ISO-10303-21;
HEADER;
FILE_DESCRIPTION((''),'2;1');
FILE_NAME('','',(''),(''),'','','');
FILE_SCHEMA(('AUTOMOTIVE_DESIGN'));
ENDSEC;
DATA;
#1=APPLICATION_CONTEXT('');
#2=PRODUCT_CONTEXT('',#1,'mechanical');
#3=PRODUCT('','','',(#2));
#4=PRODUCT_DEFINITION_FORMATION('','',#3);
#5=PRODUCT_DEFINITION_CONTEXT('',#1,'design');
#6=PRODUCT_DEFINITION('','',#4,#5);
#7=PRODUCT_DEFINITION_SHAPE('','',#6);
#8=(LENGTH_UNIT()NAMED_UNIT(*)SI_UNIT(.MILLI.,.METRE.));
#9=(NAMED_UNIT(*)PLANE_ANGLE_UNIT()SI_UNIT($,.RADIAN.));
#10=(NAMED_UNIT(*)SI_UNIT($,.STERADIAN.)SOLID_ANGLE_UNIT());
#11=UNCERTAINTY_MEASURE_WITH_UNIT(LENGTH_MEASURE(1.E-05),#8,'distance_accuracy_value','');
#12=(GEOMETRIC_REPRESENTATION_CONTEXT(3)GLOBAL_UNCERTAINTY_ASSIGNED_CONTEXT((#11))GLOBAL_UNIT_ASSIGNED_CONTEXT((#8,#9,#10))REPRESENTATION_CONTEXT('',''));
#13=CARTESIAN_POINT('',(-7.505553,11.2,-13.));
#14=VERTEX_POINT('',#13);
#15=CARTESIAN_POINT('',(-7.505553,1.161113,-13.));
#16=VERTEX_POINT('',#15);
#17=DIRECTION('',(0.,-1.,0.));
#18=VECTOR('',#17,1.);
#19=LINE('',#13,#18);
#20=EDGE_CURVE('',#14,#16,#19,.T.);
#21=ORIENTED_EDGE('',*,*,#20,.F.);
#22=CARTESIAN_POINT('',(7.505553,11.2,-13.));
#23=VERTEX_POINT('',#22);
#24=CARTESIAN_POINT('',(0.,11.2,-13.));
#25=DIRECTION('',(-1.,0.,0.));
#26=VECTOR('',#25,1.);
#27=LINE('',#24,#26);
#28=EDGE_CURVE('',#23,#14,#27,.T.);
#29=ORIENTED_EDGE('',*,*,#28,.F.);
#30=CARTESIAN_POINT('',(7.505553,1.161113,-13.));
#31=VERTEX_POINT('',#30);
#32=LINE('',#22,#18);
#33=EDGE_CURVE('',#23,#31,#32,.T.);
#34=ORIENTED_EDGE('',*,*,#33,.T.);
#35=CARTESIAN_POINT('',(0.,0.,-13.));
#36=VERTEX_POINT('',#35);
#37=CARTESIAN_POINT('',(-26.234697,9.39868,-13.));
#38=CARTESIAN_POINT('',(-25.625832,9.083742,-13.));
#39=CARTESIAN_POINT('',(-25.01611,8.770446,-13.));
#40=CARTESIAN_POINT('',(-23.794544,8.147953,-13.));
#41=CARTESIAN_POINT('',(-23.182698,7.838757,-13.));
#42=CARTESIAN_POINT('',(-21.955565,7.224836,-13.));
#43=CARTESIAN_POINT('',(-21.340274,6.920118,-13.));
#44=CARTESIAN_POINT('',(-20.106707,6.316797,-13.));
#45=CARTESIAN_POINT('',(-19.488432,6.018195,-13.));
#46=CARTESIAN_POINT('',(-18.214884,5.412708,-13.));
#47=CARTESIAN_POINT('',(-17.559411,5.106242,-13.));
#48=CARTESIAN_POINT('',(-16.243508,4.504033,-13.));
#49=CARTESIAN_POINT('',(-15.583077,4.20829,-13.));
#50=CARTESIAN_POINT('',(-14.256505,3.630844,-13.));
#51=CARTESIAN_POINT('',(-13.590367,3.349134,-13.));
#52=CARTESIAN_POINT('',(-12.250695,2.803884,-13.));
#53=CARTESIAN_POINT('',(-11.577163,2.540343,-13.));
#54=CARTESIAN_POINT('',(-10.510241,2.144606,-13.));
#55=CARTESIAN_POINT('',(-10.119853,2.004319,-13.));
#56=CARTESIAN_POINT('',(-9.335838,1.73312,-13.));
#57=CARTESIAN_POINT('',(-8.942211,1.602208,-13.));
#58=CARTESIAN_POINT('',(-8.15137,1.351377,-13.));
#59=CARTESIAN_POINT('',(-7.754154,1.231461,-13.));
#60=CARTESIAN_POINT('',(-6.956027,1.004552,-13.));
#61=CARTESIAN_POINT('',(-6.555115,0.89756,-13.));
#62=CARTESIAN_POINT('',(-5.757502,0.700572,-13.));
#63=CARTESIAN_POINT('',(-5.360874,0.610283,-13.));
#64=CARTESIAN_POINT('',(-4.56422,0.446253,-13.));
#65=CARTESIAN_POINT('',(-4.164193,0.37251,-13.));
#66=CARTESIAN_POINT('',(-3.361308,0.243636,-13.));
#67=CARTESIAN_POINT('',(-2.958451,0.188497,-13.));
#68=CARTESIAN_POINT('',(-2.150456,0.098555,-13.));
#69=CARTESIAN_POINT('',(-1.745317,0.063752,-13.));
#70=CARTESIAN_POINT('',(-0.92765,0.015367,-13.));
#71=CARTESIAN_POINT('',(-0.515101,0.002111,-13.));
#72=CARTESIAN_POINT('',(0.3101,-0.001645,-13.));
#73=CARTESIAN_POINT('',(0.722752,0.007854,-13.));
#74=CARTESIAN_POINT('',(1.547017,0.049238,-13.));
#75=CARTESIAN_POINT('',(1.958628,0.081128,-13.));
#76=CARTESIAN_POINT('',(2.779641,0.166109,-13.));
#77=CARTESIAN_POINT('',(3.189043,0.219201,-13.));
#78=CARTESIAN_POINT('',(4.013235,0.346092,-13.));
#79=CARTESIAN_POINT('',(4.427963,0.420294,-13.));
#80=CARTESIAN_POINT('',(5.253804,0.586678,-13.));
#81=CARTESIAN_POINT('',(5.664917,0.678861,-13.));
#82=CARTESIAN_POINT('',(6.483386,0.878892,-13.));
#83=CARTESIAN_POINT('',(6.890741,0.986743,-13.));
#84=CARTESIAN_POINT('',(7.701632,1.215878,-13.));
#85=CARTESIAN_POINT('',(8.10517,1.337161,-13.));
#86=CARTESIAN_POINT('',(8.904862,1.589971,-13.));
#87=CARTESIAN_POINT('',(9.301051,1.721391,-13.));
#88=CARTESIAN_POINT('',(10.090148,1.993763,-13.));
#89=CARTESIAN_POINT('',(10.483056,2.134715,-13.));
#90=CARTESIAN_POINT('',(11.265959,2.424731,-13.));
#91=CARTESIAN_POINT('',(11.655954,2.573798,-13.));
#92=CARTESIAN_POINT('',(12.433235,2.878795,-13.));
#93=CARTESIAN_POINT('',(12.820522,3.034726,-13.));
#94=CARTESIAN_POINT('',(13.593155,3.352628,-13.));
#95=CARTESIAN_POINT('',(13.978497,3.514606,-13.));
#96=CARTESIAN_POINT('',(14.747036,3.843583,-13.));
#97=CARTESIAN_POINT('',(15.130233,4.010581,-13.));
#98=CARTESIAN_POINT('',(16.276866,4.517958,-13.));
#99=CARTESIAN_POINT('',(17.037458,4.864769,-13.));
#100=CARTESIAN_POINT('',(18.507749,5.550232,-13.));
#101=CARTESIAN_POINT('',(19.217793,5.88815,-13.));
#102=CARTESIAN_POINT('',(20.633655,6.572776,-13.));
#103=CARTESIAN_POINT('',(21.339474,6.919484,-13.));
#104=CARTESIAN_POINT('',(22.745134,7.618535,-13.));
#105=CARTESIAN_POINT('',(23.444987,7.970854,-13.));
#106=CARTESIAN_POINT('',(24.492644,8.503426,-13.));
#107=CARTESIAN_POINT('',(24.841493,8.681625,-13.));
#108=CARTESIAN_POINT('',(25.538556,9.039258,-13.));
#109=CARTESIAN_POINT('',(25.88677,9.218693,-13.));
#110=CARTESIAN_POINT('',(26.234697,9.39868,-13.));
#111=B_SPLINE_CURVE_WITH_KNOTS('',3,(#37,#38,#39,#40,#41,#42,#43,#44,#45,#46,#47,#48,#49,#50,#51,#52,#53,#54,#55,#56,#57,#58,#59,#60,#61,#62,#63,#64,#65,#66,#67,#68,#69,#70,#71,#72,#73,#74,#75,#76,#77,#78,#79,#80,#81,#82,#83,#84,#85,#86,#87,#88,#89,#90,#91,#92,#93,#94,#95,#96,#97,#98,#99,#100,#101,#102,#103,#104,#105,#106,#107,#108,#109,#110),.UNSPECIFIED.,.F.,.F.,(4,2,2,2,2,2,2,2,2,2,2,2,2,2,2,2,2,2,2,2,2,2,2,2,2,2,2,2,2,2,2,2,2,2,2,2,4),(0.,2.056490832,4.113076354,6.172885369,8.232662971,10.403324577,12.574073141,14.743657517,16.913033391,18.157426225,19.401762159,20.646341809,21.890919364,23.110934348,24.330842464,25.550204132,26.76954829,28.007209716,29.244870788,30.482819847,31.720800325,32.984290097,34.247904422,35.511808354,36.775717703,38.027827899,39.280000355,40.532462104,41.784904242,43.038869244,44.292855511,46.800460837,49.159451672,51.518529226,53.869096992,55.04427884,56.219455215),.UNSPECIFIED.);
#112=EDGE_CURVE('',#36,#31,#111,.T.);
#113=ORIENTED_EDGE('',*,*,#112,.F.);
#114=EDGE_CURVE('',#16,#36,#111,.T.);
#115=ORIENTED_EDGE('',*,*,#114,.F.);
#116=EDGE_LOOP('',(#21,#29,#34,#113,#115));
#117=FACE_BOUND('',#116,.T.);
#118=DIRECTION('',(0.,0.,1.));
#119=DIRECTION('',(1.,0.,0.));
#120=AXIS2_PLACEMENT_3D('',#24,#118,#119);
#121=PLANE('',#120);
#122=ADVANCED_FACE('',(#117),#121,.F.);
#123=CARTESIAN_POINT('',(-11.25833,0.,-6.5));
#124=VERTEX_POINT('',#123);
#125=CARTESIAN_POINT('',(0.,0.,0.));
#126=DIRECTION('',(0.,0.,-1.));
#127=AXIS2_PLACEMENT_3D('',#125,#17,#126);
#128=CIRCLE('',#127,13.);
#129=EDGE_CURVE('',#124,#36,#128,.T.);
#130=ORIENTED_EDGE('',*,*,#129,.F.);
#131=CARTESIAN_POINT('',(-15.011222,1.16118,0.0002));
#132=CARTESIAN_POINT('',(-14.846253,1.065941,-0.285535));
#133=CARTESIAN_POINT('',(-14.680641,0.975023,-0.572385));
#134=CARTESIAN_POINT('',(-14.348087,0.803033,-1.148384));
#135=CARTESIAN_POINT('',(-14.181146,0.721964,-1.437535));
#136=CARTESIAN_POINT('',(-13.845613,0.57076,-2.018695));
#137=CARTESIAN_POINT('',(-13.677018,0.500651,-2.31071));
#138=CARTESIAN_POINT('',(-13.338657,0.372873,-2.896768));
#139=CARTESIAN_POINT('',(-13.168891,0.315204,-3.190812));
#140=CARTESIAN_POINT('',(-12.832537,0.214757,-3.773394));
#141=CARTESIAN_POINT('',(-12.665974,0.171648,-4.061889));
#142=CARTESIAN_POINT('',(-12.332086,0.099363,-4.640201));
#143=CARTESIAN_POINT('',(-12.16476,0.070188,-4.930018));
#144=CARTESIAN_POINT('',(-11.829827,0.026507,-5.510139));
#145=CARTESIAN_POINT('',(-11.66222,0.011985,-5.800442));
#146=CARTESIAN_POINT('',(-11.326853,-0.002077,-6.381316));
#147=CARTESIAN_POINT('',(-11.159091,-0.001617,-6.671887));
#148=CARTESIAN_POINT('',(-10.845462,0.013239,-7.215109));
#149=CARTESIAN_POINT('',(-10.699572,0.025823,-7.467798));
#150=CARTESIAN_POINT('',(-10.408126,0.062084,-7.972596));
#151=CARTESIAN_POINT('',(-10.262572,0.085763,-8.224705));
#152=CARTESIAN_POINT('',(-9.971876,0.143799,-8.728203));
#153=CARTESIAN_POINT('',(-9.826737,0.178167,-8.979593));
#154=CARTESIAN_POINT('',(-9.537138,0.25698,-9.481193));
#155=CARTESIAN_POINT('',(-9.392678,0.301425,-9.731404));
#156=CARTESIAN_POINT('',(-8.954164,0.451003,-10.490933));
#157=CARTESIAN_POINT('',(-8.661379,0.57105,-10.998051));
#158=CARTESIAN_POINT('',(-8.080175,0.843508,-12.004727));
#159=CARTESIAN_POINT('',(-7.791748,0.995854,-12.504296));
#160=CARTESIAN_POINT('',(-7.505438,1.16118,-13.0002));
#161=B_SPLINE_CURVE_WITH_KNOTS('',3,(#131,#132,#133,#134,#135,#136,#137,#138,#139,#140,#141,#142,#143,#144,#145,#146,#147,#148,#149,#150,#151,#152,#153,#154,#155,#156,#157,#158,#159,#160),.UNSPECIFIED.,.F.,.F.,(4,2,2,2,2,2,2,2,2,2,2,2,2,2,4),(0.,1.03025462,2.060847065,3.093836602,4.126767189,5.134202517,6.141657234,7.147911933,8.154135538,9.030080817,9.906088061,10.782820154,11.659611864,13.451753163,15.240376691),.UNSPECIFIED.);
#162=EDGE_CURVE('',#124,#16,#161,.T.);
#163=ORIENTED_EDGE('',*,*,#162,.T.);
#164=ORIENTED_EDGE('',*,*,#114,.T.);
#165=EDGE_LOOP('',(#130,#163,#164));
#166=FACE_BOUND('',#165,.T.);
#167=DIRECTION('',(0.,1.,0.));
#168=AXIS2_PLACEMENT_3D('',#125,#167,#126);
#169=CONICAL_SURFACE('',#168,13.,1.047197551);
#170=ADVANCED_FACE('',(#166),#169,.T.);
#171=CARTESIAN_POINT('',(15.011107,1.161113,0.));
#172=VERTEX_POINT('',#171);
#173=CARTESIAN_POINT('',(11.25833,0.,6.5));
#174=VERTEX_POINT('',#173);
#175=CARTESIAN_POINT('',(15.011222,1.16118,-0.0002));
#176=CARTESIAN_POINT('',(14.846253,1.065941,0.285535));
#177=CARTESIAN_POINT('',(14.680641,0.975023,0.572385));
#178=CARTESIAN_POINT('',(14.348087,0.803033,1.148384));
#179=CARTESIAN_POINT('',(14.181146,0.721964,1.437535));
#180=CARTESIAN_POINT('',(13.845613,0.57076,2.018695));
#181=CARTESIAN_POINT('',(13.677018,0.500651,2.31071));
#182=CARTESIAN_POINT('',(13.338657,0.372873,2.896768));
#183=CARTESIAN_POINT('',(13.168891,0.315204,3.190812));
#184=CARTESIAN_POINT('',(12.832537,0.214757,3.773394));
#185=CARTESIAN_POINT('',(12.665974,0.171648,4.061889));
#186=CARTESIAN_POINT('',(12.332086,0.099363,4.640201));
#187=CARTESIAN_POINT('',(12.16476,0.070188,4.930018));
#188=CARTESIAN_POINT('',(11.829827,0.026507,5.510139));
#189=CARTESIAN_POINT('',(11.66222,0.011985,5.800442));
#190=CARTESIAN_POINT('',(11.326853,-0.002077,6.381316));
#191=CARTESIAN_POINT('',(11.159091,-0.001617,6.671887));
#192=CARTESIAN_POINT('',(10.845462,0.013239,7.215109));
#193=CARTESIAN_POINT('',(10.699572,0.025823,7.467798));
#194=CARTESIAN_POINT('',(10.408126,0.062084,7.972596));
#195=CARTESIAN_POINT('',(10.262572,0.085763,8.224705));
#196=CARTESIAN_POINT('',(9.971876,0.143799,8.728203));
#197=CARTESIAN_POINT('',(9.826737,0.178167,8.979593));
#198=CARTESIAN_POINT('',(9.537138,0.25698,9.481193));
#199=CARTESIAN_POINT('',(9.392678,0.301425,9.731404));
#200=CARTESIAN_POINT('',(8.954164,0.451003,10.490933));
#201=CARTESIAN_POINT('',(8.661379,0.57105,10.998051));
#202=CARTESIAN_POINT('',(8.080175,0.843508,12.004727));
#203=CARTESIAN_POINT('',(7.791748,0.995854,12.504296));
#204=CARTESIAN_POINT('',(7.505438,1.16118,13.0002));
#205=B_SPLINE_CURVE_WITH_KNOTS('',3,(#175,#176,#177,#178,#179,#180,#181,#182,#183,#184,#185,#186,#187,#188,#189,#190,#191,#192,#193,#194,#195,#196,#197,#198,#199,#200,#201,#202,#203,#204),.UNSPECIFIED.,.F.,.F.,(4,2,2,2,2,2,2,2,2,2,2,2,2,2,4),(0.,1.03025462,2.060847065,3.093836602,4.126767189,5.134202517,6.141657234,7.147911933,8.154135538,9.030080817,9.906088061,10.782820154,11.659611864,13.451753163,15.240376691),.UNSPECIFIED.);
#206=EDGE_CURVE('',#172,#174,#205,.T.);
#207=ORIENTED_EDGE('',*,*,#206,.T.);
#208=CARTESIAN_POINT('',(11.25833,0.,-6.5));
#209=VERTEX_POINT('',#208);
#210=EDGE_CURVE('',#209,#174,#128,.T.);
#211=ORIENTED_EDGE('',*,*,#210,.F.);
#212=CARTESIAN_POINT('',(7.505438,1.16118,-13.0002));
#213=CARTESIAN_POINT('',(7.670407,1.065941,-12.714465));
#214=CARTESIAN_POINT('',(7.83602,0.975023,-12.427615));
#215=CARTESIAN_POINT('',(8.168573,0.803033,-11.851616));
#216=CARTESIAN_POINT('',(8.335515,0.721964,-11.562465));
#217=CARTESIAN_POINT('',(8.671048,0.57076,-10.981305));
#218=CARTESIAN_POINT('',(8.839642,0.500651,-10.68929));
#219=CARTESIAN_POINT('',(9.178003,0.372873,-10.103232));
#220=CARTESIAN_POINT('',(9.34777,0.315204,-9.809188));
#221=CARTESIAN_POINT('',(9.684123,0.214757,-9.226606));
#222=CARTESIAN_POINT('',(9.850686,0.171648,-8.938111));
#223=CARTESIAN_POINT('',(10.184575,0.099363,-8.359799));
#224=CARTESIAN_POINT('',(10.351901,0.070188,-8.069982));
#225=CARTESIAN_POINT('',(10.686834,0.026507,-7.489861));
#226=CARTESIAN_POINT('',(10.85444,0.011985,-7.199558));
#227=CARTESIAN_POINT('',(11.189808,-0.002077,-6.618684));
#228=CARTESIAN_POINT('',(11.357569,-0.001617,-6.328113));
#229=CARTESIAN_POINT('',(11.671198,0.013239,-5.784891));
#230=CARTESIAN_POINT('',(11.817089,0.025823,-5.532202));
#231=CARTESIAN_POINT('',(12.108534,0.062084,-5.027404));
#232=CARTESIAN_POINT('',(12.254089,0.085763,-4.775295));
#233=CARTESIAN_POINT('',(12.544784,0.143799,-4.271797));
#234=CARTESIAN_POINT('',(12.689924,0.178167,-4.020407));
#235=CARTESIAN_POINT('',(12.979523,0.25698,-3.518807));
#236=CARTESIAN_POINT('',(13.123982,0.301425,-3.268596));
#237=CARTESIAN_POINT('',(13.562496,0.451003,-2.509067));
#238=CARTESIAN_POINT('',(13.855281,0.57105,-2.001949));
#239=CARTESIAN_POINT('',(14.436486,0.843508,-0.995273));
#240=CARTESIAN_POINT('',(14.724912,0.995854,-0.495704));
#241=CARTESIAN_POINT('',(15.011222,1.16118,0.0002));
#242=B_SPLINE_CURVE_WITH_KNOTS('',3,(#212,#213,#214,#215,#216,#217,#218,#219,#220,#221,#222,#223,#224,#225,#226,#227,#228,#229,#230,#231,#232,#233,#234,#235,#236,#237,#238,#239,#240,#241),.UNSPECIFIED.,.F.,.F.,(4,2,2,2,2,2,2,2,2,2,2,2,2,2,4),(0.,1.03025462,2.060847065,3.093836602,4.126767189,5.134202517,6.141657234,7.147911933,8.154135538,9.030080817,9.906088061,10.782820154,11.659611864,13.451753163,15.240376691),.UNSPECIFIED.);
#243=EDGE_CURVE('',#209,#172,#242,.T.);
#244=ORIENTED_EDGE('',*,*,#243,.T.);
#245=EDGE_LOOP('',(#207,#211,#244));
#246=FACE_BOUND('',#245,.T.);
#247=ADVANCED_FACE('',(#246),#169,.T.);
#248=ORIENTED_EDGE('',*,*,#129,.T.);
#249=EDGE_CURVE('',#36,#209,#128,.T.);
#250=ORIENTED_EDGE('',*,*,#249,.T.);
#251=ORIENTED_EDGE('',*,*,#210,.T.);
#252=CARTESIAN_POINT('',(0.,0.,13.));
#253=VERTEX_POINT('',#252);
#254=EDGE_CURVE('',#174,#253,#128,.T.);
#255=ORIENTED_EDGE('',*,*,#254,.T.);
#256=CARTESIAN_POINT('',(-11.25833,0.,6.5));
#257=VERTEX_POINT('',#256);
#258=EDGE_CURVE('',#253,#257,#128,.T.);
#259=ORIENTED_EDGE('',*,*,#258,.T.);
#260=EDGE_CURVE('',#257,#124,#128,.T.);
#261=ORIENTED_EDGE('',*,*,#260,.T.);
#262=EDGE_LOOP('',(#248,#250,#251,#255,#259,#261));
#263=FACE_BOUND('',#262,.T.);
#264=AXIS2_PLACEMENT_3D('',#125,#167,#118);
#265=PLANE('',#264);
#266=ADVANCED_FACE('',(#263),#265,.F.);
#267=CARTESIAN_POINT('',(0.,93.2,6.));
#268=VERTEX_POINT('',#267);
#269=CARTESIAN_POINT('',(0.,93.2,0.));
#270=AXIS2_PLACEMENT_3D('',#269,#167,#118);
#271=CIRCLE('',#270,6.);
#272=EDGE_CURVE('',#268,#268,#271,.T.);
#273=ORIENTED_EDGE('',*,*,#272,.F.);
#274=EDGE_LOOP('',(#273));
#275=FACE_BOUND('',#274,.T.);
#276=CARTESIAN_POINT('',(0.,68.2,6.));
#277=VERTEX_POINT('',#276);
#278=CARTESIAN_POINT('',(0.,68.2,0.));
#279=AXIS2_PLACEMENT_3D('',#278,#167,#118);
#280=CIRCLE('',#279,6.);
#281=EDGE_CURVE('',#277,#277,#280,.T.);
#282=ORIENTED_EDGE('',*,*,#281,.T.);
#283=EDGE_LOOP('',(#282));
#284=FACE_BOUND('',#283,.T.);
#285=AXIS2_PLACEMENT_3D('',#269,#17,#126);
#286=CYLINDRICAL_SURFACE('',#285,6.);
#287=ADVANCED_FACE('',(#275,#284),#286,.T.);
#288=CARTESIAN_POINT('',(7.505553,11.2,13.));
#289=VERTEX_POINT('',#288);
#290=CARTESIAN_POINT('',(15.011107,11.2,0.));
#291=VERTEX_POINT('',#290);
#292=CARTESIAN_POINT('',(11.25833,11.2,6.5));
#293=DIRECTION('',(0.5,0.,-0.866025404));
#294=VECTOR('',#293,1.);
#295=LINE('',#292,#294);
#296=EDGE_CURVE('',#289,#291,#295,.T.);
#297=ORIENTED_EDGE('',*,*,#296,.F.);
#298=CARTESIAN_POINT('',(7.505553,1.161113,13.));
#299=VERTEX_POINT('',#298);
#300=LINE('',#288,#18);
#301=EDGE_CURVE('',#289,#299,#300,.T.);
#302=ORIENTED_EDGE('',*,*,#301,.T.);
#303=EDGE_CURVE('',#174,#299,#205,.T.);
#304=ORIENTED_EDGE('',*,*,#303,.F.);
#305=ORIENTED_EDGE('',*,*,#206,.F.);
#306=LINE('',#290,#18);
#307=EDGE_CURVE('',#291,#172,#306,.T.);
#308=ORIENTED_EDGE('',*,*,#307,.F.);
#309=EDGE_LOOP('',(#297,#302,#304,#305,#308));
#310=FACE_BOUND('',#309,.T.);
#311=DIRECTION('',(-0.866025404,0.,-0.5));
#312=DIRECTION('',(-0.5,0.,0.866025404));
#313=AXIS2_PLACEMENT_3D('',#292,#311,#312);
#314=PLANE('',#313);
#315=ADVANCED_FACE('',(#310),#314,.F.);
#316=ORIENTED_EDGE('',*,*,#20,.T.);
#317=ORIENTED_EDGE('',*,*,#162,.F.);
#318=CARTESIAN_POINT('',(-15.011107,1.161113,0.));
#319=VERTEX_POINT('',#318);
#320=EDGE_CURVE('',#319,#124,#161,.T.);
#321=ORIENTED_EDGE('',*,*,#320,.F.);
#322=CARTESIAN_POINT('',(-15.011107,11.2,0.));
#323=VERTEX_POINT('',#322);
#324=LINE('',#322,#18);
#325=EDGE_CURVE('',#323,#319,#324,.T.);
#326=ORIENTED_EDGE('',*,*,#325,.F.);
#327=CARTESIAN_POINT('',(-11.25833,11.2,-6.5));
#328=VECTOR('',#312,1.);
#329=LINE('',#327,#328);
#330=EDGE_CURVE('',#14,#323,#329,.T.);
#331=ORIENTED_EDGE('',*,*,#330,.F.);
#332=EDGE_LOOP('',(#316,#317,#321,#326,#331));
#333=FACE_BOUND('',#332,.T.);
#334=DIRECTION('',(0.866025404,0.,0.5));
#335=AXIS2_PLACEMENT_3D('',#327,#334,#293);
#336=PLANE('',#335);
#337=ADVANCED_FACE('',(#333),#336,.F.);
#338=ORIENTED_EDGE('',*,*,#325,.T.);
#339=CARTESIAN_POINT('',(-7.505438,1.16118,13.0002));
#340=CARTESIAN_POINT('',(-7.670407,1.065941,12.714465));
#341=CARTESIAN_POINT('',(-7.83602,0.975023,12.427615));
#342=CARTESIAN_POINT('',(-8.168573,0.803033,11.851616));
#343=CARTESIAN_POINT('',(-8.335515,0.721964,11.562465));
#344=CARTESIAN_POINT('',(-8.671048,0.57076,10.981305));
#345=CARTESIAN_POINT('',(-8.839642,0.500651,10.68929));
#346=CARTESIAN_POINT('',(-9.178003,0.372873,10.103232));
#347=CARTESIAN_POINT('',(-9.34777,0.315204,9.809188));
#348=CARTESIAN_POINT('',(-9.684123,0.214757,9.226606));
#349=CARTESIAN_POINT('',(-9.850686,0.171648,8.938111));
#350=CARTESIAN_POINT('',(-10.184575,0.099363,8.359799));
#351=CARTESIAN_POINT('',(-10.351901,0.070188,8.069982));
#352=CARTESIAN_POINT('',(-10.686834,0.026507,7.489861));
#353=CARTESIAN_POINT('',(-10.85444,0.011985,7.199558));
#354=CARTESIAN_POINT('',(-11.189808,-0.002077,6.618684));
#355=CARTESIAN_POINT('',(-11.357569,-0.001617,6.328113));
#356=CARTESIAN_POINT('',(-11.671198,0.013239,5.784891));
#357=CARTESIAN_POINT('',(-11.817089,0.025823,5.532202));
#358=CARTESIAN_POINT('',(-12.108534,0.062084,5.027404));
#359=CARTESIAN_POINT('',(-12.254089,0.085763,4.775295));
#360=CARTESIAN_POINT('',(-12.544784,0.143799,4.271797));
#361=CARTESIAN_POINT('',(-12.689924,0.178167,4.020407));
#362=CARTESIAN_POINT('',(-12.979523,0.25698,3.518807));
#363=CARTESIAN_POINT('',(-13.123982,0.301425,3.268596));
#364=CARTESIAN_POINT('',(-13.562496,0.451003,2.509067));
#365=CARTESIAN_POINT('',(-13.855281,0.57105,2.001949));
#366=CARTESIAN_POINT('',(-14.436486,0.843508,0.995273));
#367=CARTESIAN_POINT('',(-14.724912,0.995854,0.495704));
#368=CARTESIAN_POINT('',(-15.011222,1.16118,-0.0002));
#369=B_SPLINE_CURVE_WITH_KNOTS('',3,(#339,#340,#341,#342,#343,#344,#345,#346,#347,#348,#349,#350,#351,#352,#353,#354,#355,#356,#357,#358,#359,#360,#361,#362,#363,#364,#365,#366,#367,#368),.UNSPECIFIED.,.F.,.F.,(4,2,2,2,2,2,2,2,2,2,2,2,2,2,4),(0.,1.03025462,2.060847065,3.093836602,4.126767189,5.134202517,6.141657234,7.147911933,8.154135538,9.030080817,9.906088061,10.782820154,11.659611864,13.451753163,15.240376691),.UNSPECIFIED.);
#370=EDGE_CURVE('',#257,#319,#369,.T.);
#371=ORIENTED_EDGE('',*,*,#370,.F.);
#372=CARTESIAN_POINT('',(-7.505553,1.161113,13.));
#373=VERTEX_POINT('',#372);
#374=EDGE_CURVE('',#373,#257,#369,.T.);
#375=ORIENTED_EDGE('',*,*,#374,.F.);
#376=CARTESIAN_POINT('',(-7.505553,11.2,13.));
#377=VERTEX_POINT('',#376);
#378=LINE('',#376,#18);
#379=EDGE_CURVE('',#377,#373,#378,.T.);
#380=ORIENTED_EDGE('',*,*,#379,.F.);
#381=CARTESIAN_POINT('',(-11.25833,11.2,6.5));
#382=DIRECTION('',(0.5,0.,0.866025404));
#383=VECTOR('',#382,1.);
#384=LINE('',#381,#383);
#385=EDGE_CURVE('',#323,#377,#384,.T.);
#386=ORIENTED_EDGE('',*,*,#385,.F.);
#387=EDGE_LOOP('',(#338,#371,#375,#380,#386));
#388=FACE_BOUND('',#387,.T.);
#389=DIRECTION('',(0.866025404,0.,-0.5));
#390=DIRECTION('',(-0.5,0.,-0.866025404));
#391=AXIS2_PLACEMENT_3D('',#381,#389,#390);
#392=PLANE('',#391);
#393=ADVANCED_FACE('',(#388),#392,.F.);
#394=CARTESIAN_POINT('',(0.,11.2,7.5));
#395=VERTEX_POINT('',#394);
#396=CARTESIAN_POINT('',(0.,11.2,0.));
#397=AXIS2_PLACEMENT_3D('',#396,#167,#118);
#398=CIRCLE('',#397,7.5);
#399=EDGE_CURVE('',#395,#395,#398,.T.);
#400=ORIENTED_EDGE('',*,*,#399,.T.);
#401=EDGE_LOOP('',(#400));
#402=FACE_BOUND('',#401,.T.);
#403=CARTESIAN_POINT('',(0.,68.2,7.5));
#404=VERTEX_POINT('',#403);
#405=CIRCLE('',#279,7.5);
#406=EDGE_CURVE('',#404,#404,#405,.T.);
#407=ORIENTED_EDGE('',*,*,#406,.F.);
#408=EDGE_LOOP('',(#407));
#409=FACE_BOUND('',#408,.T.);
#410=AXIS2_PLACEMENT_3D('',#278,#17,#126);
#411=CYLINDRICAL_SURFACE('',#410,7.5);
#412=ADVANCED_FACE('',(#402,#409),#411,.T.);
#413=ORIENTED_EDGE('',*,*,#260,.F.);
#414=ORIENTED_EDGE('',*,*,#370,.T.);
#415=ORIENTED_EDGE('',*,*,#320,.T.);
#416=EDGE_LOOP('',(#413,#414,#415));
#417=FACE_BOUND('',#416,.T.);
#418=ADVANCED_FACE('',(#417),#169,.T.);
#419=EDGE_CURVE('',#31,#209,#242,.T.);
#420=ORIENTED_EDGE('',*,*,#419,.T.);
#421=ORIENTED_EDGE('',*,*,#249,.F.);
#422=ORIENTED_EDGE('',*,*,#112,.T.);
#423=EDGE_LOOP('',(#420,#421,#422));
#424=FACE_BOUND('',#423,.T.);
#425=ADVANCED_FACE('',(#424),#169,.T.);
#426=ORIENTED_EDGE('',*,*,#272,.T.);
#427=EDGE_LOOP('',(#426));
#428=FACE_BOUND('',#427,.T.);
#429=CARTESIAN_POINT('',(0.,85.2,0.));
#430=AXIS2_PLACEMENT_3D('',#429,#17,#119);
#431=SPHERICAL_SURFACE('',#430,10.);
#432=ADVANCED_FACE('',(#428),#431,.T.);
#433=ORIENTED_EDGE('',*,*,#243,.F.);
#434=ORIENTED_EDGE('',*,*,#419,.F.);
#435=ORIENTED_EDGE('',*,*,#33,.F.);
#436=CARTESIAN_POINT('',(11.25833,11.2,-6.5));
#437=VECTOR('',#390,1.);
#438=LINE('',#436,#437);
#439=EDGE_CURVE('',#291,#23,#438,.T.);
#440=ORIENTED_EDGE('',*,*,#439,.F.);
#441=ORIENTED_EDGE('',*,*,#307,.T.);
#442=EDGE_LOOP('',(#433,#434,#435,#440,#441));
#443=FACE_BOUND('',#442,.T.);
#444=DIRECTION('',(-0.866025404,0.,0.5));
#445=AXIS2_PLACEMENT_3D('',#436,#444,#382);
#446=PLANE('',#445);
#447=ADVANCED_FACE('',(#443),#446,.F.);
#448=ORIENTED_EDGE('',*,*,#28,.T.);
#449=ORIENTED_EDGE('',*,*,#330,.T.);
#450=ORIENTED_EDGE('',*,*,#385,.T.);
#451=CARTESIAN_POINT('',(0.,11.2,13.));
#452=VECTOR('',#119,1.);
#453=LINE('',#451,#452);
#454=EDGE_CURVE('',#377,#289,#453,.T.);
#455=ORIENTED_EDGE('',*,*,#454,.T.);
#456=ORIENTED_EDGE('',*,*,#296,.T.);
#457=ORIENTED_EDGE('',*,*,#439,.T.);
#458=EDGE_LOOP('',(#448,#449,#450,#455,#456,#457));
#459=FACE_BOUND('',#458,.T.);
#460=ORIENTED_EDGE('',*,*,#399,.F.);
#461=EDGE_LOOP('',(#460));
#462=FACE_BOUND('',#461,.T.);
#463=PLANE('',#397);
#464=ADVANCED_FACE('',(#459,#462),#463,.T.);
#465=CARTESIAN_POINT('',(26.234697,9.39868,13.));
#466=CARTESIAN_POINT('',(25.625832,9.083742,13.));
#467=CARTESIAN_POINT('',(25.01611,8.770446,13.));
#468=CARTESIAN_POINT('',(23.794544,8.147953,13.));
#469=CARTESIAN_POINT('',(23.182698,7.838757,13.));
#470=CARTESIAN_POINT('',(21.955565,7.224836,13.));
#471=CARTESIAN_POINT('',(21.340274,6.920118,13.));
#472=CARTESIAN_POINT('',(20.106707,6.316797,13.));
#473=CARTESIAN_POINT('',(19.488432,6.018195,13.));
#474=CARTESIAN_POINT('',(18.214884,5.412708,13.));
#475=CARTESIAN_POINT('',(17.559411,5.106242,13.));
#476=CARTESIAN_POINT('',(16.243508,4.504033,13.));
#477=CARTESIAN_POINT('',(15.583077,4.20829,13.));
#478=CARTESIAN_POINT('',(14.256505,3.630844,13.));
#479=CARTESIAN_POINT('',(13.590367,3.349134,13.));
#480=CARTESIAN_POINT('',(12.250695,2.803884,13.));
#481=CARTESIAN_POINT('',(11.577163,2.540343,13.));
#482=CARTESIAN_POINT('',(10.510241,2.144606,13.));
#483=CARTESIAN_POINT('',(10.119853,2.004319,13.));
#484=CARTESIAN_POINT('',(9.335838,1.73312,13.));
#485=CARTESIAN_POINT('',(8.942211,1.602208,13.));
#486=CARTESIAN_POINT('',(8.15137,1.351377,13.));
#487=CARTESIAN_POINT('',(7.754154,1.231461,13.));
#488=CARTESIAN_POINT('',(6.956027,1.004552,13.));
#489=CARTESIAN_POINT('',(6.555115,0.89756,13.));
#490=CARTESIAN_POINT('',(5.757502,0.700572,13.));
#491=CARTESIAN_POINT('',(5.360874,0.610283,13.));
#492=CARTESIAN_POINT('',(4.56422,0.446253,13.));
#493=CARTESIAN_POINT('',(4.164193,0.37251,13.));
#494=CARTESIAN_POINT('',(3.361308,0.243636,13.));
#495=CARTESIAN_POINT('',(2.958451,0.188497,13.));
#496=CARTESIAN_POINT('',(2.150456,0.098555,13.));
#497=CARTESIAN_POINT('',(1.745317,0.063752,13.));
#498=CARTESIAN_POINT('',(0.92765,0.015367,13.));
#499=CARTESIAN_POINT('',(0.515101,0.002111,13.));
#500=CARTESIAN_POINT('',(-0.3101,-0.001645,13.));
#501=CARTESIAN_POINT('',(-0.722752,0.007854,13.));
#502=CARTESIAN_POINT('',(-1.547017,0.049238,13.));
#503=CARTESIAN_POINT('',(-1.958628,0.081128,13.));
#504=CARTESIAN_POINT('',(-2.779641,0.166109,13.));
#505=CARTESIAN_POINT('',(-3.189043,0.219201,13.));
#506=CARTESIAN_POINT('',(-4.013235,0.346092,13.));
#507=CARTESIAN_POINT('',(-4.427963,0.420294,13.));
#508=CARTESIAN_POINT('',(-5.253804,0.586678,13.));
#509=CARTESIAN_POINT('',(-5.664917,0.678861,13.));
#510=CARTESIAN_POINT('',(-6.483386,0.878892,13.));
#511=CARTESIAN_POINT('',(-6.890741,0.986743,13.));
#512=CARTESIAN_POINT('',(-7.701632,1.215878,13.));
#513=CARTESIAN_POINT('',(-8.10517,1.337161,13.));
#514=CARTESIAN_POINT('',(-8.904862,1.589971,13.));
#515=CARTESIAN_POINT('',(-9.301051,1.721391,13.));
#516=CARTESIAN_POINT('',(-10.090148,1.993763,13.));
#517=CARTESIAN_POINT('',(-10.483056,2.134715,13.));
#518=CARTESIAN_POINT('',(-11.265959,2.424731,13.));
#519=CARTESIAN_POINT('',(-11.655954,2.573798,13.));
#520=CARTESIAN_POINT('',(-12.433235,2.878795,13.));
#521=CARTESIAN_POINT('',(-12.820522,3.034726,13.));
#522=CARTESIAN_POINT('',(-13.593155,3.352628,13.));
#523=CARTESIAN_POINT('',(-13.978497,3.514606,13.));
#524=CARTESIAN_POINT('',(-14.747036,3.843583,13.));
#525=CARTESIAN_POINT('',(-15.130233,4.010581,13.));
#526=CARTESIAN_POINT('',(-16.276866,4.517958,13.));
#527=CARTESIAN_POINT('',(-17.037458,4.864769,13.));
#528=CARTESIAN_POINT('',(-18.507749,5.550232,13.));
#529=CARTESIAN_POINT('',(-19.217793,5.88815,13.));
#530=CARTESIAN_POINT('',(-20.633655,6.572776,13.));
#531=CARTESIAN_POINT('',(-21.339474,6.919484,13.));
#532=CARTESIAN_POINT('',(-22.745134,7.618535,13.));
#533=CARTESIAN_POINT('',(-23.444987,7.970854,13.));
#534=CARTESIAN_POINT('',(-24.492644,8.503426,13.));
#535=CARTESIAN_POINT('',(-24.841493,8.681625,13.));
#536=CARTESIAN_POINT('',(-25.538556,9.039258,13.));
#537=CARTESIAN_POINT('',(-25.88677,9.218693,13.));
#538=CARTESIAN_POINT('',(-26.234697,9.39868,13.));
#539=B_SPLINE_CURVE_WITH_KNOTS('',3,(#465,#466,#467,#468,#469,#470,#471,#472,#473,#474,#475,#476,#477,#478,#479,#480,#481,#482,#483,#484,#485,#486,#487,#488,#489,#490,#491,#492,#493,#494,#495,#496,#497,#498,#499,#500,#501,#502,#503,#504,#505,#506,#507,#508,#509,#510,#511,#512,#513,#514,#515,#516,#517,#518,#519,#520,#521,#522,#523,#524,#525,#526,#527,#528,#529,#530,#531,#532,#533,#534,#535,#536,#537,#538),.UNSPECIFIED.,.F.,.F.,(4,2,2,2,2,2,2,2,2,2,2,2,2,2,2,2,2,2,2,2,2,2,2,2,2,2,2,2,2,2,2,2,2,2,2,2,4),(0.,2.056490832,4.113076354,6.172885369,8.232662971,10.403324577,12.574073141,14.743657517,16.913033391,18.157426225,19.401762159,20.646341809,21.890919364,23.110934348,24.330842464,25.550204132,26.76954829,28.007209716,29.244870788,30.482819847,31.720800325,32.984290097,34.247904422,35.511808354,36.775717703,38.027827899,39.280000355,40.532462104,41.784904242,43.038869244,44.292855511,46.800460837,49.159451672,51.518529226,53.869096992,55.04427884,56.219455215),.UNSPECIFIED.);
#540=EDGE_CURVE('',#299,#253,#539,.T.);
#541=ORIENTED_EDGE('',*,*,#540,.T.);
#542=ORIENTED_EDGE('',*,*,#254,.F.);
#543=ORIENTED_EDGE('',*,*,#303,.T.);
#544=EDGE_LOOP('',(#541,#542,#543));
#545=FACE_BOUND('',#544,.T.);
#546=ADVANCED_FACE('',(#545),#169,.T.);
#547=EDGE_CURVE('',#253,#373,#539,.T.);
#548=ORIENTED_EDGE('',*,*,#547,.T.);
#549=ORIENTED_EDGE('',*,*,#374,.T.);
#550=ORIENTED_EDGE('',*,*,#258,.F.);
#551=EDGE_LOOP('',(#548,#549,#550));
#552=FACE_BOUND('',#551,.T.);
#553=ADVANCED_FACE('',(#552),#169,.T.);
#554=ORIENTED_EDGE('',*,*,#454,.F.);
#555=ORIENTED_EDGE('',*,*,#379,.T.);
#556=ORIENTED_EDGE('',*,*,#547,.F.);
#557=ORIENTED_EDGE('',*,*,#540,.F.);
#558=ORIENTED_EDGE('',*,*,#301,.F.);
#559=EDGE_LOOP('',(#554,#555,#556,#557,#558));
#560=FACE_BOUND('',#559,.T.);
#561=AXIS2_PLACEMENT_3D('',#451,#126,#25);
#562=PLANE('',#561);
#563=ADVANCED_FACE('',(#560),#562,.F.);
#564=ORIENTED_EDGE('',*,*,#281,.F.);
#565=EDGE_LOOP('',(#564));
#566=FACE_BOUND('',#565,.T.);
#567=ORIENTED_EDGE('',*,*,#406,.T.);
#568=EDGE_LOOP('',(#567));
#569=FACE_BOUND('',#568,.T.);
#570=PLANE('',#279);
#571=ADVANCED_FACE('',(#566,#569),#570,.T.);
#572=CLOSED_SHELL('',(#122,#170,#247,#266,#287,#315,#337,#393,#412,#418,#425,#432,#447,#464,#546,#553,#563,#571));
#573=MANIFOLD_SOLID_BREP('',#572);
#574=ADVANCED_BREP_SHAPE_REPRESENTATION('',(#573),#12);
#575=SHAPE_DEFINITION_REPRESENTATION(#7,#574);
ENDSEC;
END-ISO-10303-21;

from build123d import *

# Parameters (mm, degrees)
SKETCH1_R           = 7.5
BOSS_EXTRUDE1_DEPTH = 11.2
SKETCH1_3_R         = 7.5
SKETCH1_3_R_2       = 6
BOSS_EXTRUDE2_DEPTH = 68.2
SKETCH1_4_R         = 6
BOSS_EXTRUDE3_DEPTH = 93.2
SKETCH4_OUTSIDE_W   = 338.072
SKETCH4_OUTSIDE_H   = 334.05
SKETCH4_OUTSIDE_R   = 13
CUT_EXTRUDE1_DEPTH  = 82.5
CUT_EXTRUDE1_DRAFT  = -60


with BuildPart() as part:
    # Sketch1 → Boss-Extrude1 (new body)
    with BuildSketch(Plane(origin=(0, 0, 0), x_dir=(1, 0, 0), z_dir=(0, 1, 0))):
        Polygon((15.011106999, 0), (7.505553499, 13), (-7.505553499, 13), (-15.011106999, 0), (-7.505553499, -13), (7.505553499, -13), align=None)
        with Locations(Location((0, 0, 0), (0, 0, 270))):
            Circle(SKETCH1_R, mode=Mode.SUBTRACT)
    extrude(amount=BOSS_EXTRUDE1_DEPTH)

    # Sketch1<3> → Boss-Extrude2 (add)
    with BuildSketch(Plane(origin=(0, 0, 0), x_dir=(1, 0, 0), z_dir=(0, 1, 0))):
        with Locations(Location((0, 0, 0), (0, 0, 270))):
            Circle(SKETCH1_3_R)
        with Locations(Location((0, 0, 0), (0, 0, 270))):
            Circle(SKETCH1_3_R_2, mode=Mode.SUBTRACT)
    extrude(amount=BOSS_EXTRUDE2_DEPTH)

    # Sketch1<4> → Boss-Extrude3 (add)
    with BuildSketch(Plane(origin=(0, 0, 0), x_dir=(1, 0, 0), z_dir=(0, 1, 0))):
        with Locations(Location((0, 0, 0), (0, 0, 270))):
            Circle(SKETCH1_4_R)
    extrude(amount=BOSS_EXTRUDE3_DEPTH)


with BuildPart() as cut_extrude1_tool:
    # Sketch4 outside → Cut-Extrude1 (with draft: the straight prism first)
    with BuildSketch(Plane.XZ):
        Rectangle(SKETCH4_OUTSIDE_W, SKETCH4_OUTSIDE_H)
        Circle(SKETCH4_OUTSIDE_R, mode=Mode.SUBTRACT)
    extrude(amount=-CUT_EXTRUDE1_DEPTH)
    # Cut-Extrude1: the draft: its side faces are tilted about the plane it starts from
    cut_extrude1_sides = [cut_extrude1_tool.faces().sort_by_distance(p)[0] for p in [
        (0, 41.25, -167.025),
        (169.036, 41.25, 0),
        (0, 41.25, 167.025),
        (-169.036, 41.25, 0),
        (-13, 41.25, 0),
    ]]
    draft(cut_extrude1_sides, Plane.XZ, CUT_EXTRUDE1_DRAFT)


with BuildPart() as part_1:
    add(part.part)

    # Cut-Extrude1: cut by cut_extrude1_tool
    add(cut_extrude1_tool.part, mode=Mode.SUBTRACT)

    # Sketch2 → Revolve2 (revolve)
    with BuildSketch(Plane.XY, mode=Mode.PRIVATE) as revolve2_sk:
        with BuildLine():
            Line((-6, 93.2), (0, 93.2))
            Line((0, 93.2), (0, 95.2))
            ThreePointArc((0, 95.2), (-3.16227766, 94.686832981), (-6, 93.2))
        make_face()
    revolve(revolve2_sk.sketch.rotate(Axis((0, 93.2, 0), (0, 1, 0)), 180), axis=Axis((0, 93.2, 0), (0, 1, 0)))


solid = part_1.part
